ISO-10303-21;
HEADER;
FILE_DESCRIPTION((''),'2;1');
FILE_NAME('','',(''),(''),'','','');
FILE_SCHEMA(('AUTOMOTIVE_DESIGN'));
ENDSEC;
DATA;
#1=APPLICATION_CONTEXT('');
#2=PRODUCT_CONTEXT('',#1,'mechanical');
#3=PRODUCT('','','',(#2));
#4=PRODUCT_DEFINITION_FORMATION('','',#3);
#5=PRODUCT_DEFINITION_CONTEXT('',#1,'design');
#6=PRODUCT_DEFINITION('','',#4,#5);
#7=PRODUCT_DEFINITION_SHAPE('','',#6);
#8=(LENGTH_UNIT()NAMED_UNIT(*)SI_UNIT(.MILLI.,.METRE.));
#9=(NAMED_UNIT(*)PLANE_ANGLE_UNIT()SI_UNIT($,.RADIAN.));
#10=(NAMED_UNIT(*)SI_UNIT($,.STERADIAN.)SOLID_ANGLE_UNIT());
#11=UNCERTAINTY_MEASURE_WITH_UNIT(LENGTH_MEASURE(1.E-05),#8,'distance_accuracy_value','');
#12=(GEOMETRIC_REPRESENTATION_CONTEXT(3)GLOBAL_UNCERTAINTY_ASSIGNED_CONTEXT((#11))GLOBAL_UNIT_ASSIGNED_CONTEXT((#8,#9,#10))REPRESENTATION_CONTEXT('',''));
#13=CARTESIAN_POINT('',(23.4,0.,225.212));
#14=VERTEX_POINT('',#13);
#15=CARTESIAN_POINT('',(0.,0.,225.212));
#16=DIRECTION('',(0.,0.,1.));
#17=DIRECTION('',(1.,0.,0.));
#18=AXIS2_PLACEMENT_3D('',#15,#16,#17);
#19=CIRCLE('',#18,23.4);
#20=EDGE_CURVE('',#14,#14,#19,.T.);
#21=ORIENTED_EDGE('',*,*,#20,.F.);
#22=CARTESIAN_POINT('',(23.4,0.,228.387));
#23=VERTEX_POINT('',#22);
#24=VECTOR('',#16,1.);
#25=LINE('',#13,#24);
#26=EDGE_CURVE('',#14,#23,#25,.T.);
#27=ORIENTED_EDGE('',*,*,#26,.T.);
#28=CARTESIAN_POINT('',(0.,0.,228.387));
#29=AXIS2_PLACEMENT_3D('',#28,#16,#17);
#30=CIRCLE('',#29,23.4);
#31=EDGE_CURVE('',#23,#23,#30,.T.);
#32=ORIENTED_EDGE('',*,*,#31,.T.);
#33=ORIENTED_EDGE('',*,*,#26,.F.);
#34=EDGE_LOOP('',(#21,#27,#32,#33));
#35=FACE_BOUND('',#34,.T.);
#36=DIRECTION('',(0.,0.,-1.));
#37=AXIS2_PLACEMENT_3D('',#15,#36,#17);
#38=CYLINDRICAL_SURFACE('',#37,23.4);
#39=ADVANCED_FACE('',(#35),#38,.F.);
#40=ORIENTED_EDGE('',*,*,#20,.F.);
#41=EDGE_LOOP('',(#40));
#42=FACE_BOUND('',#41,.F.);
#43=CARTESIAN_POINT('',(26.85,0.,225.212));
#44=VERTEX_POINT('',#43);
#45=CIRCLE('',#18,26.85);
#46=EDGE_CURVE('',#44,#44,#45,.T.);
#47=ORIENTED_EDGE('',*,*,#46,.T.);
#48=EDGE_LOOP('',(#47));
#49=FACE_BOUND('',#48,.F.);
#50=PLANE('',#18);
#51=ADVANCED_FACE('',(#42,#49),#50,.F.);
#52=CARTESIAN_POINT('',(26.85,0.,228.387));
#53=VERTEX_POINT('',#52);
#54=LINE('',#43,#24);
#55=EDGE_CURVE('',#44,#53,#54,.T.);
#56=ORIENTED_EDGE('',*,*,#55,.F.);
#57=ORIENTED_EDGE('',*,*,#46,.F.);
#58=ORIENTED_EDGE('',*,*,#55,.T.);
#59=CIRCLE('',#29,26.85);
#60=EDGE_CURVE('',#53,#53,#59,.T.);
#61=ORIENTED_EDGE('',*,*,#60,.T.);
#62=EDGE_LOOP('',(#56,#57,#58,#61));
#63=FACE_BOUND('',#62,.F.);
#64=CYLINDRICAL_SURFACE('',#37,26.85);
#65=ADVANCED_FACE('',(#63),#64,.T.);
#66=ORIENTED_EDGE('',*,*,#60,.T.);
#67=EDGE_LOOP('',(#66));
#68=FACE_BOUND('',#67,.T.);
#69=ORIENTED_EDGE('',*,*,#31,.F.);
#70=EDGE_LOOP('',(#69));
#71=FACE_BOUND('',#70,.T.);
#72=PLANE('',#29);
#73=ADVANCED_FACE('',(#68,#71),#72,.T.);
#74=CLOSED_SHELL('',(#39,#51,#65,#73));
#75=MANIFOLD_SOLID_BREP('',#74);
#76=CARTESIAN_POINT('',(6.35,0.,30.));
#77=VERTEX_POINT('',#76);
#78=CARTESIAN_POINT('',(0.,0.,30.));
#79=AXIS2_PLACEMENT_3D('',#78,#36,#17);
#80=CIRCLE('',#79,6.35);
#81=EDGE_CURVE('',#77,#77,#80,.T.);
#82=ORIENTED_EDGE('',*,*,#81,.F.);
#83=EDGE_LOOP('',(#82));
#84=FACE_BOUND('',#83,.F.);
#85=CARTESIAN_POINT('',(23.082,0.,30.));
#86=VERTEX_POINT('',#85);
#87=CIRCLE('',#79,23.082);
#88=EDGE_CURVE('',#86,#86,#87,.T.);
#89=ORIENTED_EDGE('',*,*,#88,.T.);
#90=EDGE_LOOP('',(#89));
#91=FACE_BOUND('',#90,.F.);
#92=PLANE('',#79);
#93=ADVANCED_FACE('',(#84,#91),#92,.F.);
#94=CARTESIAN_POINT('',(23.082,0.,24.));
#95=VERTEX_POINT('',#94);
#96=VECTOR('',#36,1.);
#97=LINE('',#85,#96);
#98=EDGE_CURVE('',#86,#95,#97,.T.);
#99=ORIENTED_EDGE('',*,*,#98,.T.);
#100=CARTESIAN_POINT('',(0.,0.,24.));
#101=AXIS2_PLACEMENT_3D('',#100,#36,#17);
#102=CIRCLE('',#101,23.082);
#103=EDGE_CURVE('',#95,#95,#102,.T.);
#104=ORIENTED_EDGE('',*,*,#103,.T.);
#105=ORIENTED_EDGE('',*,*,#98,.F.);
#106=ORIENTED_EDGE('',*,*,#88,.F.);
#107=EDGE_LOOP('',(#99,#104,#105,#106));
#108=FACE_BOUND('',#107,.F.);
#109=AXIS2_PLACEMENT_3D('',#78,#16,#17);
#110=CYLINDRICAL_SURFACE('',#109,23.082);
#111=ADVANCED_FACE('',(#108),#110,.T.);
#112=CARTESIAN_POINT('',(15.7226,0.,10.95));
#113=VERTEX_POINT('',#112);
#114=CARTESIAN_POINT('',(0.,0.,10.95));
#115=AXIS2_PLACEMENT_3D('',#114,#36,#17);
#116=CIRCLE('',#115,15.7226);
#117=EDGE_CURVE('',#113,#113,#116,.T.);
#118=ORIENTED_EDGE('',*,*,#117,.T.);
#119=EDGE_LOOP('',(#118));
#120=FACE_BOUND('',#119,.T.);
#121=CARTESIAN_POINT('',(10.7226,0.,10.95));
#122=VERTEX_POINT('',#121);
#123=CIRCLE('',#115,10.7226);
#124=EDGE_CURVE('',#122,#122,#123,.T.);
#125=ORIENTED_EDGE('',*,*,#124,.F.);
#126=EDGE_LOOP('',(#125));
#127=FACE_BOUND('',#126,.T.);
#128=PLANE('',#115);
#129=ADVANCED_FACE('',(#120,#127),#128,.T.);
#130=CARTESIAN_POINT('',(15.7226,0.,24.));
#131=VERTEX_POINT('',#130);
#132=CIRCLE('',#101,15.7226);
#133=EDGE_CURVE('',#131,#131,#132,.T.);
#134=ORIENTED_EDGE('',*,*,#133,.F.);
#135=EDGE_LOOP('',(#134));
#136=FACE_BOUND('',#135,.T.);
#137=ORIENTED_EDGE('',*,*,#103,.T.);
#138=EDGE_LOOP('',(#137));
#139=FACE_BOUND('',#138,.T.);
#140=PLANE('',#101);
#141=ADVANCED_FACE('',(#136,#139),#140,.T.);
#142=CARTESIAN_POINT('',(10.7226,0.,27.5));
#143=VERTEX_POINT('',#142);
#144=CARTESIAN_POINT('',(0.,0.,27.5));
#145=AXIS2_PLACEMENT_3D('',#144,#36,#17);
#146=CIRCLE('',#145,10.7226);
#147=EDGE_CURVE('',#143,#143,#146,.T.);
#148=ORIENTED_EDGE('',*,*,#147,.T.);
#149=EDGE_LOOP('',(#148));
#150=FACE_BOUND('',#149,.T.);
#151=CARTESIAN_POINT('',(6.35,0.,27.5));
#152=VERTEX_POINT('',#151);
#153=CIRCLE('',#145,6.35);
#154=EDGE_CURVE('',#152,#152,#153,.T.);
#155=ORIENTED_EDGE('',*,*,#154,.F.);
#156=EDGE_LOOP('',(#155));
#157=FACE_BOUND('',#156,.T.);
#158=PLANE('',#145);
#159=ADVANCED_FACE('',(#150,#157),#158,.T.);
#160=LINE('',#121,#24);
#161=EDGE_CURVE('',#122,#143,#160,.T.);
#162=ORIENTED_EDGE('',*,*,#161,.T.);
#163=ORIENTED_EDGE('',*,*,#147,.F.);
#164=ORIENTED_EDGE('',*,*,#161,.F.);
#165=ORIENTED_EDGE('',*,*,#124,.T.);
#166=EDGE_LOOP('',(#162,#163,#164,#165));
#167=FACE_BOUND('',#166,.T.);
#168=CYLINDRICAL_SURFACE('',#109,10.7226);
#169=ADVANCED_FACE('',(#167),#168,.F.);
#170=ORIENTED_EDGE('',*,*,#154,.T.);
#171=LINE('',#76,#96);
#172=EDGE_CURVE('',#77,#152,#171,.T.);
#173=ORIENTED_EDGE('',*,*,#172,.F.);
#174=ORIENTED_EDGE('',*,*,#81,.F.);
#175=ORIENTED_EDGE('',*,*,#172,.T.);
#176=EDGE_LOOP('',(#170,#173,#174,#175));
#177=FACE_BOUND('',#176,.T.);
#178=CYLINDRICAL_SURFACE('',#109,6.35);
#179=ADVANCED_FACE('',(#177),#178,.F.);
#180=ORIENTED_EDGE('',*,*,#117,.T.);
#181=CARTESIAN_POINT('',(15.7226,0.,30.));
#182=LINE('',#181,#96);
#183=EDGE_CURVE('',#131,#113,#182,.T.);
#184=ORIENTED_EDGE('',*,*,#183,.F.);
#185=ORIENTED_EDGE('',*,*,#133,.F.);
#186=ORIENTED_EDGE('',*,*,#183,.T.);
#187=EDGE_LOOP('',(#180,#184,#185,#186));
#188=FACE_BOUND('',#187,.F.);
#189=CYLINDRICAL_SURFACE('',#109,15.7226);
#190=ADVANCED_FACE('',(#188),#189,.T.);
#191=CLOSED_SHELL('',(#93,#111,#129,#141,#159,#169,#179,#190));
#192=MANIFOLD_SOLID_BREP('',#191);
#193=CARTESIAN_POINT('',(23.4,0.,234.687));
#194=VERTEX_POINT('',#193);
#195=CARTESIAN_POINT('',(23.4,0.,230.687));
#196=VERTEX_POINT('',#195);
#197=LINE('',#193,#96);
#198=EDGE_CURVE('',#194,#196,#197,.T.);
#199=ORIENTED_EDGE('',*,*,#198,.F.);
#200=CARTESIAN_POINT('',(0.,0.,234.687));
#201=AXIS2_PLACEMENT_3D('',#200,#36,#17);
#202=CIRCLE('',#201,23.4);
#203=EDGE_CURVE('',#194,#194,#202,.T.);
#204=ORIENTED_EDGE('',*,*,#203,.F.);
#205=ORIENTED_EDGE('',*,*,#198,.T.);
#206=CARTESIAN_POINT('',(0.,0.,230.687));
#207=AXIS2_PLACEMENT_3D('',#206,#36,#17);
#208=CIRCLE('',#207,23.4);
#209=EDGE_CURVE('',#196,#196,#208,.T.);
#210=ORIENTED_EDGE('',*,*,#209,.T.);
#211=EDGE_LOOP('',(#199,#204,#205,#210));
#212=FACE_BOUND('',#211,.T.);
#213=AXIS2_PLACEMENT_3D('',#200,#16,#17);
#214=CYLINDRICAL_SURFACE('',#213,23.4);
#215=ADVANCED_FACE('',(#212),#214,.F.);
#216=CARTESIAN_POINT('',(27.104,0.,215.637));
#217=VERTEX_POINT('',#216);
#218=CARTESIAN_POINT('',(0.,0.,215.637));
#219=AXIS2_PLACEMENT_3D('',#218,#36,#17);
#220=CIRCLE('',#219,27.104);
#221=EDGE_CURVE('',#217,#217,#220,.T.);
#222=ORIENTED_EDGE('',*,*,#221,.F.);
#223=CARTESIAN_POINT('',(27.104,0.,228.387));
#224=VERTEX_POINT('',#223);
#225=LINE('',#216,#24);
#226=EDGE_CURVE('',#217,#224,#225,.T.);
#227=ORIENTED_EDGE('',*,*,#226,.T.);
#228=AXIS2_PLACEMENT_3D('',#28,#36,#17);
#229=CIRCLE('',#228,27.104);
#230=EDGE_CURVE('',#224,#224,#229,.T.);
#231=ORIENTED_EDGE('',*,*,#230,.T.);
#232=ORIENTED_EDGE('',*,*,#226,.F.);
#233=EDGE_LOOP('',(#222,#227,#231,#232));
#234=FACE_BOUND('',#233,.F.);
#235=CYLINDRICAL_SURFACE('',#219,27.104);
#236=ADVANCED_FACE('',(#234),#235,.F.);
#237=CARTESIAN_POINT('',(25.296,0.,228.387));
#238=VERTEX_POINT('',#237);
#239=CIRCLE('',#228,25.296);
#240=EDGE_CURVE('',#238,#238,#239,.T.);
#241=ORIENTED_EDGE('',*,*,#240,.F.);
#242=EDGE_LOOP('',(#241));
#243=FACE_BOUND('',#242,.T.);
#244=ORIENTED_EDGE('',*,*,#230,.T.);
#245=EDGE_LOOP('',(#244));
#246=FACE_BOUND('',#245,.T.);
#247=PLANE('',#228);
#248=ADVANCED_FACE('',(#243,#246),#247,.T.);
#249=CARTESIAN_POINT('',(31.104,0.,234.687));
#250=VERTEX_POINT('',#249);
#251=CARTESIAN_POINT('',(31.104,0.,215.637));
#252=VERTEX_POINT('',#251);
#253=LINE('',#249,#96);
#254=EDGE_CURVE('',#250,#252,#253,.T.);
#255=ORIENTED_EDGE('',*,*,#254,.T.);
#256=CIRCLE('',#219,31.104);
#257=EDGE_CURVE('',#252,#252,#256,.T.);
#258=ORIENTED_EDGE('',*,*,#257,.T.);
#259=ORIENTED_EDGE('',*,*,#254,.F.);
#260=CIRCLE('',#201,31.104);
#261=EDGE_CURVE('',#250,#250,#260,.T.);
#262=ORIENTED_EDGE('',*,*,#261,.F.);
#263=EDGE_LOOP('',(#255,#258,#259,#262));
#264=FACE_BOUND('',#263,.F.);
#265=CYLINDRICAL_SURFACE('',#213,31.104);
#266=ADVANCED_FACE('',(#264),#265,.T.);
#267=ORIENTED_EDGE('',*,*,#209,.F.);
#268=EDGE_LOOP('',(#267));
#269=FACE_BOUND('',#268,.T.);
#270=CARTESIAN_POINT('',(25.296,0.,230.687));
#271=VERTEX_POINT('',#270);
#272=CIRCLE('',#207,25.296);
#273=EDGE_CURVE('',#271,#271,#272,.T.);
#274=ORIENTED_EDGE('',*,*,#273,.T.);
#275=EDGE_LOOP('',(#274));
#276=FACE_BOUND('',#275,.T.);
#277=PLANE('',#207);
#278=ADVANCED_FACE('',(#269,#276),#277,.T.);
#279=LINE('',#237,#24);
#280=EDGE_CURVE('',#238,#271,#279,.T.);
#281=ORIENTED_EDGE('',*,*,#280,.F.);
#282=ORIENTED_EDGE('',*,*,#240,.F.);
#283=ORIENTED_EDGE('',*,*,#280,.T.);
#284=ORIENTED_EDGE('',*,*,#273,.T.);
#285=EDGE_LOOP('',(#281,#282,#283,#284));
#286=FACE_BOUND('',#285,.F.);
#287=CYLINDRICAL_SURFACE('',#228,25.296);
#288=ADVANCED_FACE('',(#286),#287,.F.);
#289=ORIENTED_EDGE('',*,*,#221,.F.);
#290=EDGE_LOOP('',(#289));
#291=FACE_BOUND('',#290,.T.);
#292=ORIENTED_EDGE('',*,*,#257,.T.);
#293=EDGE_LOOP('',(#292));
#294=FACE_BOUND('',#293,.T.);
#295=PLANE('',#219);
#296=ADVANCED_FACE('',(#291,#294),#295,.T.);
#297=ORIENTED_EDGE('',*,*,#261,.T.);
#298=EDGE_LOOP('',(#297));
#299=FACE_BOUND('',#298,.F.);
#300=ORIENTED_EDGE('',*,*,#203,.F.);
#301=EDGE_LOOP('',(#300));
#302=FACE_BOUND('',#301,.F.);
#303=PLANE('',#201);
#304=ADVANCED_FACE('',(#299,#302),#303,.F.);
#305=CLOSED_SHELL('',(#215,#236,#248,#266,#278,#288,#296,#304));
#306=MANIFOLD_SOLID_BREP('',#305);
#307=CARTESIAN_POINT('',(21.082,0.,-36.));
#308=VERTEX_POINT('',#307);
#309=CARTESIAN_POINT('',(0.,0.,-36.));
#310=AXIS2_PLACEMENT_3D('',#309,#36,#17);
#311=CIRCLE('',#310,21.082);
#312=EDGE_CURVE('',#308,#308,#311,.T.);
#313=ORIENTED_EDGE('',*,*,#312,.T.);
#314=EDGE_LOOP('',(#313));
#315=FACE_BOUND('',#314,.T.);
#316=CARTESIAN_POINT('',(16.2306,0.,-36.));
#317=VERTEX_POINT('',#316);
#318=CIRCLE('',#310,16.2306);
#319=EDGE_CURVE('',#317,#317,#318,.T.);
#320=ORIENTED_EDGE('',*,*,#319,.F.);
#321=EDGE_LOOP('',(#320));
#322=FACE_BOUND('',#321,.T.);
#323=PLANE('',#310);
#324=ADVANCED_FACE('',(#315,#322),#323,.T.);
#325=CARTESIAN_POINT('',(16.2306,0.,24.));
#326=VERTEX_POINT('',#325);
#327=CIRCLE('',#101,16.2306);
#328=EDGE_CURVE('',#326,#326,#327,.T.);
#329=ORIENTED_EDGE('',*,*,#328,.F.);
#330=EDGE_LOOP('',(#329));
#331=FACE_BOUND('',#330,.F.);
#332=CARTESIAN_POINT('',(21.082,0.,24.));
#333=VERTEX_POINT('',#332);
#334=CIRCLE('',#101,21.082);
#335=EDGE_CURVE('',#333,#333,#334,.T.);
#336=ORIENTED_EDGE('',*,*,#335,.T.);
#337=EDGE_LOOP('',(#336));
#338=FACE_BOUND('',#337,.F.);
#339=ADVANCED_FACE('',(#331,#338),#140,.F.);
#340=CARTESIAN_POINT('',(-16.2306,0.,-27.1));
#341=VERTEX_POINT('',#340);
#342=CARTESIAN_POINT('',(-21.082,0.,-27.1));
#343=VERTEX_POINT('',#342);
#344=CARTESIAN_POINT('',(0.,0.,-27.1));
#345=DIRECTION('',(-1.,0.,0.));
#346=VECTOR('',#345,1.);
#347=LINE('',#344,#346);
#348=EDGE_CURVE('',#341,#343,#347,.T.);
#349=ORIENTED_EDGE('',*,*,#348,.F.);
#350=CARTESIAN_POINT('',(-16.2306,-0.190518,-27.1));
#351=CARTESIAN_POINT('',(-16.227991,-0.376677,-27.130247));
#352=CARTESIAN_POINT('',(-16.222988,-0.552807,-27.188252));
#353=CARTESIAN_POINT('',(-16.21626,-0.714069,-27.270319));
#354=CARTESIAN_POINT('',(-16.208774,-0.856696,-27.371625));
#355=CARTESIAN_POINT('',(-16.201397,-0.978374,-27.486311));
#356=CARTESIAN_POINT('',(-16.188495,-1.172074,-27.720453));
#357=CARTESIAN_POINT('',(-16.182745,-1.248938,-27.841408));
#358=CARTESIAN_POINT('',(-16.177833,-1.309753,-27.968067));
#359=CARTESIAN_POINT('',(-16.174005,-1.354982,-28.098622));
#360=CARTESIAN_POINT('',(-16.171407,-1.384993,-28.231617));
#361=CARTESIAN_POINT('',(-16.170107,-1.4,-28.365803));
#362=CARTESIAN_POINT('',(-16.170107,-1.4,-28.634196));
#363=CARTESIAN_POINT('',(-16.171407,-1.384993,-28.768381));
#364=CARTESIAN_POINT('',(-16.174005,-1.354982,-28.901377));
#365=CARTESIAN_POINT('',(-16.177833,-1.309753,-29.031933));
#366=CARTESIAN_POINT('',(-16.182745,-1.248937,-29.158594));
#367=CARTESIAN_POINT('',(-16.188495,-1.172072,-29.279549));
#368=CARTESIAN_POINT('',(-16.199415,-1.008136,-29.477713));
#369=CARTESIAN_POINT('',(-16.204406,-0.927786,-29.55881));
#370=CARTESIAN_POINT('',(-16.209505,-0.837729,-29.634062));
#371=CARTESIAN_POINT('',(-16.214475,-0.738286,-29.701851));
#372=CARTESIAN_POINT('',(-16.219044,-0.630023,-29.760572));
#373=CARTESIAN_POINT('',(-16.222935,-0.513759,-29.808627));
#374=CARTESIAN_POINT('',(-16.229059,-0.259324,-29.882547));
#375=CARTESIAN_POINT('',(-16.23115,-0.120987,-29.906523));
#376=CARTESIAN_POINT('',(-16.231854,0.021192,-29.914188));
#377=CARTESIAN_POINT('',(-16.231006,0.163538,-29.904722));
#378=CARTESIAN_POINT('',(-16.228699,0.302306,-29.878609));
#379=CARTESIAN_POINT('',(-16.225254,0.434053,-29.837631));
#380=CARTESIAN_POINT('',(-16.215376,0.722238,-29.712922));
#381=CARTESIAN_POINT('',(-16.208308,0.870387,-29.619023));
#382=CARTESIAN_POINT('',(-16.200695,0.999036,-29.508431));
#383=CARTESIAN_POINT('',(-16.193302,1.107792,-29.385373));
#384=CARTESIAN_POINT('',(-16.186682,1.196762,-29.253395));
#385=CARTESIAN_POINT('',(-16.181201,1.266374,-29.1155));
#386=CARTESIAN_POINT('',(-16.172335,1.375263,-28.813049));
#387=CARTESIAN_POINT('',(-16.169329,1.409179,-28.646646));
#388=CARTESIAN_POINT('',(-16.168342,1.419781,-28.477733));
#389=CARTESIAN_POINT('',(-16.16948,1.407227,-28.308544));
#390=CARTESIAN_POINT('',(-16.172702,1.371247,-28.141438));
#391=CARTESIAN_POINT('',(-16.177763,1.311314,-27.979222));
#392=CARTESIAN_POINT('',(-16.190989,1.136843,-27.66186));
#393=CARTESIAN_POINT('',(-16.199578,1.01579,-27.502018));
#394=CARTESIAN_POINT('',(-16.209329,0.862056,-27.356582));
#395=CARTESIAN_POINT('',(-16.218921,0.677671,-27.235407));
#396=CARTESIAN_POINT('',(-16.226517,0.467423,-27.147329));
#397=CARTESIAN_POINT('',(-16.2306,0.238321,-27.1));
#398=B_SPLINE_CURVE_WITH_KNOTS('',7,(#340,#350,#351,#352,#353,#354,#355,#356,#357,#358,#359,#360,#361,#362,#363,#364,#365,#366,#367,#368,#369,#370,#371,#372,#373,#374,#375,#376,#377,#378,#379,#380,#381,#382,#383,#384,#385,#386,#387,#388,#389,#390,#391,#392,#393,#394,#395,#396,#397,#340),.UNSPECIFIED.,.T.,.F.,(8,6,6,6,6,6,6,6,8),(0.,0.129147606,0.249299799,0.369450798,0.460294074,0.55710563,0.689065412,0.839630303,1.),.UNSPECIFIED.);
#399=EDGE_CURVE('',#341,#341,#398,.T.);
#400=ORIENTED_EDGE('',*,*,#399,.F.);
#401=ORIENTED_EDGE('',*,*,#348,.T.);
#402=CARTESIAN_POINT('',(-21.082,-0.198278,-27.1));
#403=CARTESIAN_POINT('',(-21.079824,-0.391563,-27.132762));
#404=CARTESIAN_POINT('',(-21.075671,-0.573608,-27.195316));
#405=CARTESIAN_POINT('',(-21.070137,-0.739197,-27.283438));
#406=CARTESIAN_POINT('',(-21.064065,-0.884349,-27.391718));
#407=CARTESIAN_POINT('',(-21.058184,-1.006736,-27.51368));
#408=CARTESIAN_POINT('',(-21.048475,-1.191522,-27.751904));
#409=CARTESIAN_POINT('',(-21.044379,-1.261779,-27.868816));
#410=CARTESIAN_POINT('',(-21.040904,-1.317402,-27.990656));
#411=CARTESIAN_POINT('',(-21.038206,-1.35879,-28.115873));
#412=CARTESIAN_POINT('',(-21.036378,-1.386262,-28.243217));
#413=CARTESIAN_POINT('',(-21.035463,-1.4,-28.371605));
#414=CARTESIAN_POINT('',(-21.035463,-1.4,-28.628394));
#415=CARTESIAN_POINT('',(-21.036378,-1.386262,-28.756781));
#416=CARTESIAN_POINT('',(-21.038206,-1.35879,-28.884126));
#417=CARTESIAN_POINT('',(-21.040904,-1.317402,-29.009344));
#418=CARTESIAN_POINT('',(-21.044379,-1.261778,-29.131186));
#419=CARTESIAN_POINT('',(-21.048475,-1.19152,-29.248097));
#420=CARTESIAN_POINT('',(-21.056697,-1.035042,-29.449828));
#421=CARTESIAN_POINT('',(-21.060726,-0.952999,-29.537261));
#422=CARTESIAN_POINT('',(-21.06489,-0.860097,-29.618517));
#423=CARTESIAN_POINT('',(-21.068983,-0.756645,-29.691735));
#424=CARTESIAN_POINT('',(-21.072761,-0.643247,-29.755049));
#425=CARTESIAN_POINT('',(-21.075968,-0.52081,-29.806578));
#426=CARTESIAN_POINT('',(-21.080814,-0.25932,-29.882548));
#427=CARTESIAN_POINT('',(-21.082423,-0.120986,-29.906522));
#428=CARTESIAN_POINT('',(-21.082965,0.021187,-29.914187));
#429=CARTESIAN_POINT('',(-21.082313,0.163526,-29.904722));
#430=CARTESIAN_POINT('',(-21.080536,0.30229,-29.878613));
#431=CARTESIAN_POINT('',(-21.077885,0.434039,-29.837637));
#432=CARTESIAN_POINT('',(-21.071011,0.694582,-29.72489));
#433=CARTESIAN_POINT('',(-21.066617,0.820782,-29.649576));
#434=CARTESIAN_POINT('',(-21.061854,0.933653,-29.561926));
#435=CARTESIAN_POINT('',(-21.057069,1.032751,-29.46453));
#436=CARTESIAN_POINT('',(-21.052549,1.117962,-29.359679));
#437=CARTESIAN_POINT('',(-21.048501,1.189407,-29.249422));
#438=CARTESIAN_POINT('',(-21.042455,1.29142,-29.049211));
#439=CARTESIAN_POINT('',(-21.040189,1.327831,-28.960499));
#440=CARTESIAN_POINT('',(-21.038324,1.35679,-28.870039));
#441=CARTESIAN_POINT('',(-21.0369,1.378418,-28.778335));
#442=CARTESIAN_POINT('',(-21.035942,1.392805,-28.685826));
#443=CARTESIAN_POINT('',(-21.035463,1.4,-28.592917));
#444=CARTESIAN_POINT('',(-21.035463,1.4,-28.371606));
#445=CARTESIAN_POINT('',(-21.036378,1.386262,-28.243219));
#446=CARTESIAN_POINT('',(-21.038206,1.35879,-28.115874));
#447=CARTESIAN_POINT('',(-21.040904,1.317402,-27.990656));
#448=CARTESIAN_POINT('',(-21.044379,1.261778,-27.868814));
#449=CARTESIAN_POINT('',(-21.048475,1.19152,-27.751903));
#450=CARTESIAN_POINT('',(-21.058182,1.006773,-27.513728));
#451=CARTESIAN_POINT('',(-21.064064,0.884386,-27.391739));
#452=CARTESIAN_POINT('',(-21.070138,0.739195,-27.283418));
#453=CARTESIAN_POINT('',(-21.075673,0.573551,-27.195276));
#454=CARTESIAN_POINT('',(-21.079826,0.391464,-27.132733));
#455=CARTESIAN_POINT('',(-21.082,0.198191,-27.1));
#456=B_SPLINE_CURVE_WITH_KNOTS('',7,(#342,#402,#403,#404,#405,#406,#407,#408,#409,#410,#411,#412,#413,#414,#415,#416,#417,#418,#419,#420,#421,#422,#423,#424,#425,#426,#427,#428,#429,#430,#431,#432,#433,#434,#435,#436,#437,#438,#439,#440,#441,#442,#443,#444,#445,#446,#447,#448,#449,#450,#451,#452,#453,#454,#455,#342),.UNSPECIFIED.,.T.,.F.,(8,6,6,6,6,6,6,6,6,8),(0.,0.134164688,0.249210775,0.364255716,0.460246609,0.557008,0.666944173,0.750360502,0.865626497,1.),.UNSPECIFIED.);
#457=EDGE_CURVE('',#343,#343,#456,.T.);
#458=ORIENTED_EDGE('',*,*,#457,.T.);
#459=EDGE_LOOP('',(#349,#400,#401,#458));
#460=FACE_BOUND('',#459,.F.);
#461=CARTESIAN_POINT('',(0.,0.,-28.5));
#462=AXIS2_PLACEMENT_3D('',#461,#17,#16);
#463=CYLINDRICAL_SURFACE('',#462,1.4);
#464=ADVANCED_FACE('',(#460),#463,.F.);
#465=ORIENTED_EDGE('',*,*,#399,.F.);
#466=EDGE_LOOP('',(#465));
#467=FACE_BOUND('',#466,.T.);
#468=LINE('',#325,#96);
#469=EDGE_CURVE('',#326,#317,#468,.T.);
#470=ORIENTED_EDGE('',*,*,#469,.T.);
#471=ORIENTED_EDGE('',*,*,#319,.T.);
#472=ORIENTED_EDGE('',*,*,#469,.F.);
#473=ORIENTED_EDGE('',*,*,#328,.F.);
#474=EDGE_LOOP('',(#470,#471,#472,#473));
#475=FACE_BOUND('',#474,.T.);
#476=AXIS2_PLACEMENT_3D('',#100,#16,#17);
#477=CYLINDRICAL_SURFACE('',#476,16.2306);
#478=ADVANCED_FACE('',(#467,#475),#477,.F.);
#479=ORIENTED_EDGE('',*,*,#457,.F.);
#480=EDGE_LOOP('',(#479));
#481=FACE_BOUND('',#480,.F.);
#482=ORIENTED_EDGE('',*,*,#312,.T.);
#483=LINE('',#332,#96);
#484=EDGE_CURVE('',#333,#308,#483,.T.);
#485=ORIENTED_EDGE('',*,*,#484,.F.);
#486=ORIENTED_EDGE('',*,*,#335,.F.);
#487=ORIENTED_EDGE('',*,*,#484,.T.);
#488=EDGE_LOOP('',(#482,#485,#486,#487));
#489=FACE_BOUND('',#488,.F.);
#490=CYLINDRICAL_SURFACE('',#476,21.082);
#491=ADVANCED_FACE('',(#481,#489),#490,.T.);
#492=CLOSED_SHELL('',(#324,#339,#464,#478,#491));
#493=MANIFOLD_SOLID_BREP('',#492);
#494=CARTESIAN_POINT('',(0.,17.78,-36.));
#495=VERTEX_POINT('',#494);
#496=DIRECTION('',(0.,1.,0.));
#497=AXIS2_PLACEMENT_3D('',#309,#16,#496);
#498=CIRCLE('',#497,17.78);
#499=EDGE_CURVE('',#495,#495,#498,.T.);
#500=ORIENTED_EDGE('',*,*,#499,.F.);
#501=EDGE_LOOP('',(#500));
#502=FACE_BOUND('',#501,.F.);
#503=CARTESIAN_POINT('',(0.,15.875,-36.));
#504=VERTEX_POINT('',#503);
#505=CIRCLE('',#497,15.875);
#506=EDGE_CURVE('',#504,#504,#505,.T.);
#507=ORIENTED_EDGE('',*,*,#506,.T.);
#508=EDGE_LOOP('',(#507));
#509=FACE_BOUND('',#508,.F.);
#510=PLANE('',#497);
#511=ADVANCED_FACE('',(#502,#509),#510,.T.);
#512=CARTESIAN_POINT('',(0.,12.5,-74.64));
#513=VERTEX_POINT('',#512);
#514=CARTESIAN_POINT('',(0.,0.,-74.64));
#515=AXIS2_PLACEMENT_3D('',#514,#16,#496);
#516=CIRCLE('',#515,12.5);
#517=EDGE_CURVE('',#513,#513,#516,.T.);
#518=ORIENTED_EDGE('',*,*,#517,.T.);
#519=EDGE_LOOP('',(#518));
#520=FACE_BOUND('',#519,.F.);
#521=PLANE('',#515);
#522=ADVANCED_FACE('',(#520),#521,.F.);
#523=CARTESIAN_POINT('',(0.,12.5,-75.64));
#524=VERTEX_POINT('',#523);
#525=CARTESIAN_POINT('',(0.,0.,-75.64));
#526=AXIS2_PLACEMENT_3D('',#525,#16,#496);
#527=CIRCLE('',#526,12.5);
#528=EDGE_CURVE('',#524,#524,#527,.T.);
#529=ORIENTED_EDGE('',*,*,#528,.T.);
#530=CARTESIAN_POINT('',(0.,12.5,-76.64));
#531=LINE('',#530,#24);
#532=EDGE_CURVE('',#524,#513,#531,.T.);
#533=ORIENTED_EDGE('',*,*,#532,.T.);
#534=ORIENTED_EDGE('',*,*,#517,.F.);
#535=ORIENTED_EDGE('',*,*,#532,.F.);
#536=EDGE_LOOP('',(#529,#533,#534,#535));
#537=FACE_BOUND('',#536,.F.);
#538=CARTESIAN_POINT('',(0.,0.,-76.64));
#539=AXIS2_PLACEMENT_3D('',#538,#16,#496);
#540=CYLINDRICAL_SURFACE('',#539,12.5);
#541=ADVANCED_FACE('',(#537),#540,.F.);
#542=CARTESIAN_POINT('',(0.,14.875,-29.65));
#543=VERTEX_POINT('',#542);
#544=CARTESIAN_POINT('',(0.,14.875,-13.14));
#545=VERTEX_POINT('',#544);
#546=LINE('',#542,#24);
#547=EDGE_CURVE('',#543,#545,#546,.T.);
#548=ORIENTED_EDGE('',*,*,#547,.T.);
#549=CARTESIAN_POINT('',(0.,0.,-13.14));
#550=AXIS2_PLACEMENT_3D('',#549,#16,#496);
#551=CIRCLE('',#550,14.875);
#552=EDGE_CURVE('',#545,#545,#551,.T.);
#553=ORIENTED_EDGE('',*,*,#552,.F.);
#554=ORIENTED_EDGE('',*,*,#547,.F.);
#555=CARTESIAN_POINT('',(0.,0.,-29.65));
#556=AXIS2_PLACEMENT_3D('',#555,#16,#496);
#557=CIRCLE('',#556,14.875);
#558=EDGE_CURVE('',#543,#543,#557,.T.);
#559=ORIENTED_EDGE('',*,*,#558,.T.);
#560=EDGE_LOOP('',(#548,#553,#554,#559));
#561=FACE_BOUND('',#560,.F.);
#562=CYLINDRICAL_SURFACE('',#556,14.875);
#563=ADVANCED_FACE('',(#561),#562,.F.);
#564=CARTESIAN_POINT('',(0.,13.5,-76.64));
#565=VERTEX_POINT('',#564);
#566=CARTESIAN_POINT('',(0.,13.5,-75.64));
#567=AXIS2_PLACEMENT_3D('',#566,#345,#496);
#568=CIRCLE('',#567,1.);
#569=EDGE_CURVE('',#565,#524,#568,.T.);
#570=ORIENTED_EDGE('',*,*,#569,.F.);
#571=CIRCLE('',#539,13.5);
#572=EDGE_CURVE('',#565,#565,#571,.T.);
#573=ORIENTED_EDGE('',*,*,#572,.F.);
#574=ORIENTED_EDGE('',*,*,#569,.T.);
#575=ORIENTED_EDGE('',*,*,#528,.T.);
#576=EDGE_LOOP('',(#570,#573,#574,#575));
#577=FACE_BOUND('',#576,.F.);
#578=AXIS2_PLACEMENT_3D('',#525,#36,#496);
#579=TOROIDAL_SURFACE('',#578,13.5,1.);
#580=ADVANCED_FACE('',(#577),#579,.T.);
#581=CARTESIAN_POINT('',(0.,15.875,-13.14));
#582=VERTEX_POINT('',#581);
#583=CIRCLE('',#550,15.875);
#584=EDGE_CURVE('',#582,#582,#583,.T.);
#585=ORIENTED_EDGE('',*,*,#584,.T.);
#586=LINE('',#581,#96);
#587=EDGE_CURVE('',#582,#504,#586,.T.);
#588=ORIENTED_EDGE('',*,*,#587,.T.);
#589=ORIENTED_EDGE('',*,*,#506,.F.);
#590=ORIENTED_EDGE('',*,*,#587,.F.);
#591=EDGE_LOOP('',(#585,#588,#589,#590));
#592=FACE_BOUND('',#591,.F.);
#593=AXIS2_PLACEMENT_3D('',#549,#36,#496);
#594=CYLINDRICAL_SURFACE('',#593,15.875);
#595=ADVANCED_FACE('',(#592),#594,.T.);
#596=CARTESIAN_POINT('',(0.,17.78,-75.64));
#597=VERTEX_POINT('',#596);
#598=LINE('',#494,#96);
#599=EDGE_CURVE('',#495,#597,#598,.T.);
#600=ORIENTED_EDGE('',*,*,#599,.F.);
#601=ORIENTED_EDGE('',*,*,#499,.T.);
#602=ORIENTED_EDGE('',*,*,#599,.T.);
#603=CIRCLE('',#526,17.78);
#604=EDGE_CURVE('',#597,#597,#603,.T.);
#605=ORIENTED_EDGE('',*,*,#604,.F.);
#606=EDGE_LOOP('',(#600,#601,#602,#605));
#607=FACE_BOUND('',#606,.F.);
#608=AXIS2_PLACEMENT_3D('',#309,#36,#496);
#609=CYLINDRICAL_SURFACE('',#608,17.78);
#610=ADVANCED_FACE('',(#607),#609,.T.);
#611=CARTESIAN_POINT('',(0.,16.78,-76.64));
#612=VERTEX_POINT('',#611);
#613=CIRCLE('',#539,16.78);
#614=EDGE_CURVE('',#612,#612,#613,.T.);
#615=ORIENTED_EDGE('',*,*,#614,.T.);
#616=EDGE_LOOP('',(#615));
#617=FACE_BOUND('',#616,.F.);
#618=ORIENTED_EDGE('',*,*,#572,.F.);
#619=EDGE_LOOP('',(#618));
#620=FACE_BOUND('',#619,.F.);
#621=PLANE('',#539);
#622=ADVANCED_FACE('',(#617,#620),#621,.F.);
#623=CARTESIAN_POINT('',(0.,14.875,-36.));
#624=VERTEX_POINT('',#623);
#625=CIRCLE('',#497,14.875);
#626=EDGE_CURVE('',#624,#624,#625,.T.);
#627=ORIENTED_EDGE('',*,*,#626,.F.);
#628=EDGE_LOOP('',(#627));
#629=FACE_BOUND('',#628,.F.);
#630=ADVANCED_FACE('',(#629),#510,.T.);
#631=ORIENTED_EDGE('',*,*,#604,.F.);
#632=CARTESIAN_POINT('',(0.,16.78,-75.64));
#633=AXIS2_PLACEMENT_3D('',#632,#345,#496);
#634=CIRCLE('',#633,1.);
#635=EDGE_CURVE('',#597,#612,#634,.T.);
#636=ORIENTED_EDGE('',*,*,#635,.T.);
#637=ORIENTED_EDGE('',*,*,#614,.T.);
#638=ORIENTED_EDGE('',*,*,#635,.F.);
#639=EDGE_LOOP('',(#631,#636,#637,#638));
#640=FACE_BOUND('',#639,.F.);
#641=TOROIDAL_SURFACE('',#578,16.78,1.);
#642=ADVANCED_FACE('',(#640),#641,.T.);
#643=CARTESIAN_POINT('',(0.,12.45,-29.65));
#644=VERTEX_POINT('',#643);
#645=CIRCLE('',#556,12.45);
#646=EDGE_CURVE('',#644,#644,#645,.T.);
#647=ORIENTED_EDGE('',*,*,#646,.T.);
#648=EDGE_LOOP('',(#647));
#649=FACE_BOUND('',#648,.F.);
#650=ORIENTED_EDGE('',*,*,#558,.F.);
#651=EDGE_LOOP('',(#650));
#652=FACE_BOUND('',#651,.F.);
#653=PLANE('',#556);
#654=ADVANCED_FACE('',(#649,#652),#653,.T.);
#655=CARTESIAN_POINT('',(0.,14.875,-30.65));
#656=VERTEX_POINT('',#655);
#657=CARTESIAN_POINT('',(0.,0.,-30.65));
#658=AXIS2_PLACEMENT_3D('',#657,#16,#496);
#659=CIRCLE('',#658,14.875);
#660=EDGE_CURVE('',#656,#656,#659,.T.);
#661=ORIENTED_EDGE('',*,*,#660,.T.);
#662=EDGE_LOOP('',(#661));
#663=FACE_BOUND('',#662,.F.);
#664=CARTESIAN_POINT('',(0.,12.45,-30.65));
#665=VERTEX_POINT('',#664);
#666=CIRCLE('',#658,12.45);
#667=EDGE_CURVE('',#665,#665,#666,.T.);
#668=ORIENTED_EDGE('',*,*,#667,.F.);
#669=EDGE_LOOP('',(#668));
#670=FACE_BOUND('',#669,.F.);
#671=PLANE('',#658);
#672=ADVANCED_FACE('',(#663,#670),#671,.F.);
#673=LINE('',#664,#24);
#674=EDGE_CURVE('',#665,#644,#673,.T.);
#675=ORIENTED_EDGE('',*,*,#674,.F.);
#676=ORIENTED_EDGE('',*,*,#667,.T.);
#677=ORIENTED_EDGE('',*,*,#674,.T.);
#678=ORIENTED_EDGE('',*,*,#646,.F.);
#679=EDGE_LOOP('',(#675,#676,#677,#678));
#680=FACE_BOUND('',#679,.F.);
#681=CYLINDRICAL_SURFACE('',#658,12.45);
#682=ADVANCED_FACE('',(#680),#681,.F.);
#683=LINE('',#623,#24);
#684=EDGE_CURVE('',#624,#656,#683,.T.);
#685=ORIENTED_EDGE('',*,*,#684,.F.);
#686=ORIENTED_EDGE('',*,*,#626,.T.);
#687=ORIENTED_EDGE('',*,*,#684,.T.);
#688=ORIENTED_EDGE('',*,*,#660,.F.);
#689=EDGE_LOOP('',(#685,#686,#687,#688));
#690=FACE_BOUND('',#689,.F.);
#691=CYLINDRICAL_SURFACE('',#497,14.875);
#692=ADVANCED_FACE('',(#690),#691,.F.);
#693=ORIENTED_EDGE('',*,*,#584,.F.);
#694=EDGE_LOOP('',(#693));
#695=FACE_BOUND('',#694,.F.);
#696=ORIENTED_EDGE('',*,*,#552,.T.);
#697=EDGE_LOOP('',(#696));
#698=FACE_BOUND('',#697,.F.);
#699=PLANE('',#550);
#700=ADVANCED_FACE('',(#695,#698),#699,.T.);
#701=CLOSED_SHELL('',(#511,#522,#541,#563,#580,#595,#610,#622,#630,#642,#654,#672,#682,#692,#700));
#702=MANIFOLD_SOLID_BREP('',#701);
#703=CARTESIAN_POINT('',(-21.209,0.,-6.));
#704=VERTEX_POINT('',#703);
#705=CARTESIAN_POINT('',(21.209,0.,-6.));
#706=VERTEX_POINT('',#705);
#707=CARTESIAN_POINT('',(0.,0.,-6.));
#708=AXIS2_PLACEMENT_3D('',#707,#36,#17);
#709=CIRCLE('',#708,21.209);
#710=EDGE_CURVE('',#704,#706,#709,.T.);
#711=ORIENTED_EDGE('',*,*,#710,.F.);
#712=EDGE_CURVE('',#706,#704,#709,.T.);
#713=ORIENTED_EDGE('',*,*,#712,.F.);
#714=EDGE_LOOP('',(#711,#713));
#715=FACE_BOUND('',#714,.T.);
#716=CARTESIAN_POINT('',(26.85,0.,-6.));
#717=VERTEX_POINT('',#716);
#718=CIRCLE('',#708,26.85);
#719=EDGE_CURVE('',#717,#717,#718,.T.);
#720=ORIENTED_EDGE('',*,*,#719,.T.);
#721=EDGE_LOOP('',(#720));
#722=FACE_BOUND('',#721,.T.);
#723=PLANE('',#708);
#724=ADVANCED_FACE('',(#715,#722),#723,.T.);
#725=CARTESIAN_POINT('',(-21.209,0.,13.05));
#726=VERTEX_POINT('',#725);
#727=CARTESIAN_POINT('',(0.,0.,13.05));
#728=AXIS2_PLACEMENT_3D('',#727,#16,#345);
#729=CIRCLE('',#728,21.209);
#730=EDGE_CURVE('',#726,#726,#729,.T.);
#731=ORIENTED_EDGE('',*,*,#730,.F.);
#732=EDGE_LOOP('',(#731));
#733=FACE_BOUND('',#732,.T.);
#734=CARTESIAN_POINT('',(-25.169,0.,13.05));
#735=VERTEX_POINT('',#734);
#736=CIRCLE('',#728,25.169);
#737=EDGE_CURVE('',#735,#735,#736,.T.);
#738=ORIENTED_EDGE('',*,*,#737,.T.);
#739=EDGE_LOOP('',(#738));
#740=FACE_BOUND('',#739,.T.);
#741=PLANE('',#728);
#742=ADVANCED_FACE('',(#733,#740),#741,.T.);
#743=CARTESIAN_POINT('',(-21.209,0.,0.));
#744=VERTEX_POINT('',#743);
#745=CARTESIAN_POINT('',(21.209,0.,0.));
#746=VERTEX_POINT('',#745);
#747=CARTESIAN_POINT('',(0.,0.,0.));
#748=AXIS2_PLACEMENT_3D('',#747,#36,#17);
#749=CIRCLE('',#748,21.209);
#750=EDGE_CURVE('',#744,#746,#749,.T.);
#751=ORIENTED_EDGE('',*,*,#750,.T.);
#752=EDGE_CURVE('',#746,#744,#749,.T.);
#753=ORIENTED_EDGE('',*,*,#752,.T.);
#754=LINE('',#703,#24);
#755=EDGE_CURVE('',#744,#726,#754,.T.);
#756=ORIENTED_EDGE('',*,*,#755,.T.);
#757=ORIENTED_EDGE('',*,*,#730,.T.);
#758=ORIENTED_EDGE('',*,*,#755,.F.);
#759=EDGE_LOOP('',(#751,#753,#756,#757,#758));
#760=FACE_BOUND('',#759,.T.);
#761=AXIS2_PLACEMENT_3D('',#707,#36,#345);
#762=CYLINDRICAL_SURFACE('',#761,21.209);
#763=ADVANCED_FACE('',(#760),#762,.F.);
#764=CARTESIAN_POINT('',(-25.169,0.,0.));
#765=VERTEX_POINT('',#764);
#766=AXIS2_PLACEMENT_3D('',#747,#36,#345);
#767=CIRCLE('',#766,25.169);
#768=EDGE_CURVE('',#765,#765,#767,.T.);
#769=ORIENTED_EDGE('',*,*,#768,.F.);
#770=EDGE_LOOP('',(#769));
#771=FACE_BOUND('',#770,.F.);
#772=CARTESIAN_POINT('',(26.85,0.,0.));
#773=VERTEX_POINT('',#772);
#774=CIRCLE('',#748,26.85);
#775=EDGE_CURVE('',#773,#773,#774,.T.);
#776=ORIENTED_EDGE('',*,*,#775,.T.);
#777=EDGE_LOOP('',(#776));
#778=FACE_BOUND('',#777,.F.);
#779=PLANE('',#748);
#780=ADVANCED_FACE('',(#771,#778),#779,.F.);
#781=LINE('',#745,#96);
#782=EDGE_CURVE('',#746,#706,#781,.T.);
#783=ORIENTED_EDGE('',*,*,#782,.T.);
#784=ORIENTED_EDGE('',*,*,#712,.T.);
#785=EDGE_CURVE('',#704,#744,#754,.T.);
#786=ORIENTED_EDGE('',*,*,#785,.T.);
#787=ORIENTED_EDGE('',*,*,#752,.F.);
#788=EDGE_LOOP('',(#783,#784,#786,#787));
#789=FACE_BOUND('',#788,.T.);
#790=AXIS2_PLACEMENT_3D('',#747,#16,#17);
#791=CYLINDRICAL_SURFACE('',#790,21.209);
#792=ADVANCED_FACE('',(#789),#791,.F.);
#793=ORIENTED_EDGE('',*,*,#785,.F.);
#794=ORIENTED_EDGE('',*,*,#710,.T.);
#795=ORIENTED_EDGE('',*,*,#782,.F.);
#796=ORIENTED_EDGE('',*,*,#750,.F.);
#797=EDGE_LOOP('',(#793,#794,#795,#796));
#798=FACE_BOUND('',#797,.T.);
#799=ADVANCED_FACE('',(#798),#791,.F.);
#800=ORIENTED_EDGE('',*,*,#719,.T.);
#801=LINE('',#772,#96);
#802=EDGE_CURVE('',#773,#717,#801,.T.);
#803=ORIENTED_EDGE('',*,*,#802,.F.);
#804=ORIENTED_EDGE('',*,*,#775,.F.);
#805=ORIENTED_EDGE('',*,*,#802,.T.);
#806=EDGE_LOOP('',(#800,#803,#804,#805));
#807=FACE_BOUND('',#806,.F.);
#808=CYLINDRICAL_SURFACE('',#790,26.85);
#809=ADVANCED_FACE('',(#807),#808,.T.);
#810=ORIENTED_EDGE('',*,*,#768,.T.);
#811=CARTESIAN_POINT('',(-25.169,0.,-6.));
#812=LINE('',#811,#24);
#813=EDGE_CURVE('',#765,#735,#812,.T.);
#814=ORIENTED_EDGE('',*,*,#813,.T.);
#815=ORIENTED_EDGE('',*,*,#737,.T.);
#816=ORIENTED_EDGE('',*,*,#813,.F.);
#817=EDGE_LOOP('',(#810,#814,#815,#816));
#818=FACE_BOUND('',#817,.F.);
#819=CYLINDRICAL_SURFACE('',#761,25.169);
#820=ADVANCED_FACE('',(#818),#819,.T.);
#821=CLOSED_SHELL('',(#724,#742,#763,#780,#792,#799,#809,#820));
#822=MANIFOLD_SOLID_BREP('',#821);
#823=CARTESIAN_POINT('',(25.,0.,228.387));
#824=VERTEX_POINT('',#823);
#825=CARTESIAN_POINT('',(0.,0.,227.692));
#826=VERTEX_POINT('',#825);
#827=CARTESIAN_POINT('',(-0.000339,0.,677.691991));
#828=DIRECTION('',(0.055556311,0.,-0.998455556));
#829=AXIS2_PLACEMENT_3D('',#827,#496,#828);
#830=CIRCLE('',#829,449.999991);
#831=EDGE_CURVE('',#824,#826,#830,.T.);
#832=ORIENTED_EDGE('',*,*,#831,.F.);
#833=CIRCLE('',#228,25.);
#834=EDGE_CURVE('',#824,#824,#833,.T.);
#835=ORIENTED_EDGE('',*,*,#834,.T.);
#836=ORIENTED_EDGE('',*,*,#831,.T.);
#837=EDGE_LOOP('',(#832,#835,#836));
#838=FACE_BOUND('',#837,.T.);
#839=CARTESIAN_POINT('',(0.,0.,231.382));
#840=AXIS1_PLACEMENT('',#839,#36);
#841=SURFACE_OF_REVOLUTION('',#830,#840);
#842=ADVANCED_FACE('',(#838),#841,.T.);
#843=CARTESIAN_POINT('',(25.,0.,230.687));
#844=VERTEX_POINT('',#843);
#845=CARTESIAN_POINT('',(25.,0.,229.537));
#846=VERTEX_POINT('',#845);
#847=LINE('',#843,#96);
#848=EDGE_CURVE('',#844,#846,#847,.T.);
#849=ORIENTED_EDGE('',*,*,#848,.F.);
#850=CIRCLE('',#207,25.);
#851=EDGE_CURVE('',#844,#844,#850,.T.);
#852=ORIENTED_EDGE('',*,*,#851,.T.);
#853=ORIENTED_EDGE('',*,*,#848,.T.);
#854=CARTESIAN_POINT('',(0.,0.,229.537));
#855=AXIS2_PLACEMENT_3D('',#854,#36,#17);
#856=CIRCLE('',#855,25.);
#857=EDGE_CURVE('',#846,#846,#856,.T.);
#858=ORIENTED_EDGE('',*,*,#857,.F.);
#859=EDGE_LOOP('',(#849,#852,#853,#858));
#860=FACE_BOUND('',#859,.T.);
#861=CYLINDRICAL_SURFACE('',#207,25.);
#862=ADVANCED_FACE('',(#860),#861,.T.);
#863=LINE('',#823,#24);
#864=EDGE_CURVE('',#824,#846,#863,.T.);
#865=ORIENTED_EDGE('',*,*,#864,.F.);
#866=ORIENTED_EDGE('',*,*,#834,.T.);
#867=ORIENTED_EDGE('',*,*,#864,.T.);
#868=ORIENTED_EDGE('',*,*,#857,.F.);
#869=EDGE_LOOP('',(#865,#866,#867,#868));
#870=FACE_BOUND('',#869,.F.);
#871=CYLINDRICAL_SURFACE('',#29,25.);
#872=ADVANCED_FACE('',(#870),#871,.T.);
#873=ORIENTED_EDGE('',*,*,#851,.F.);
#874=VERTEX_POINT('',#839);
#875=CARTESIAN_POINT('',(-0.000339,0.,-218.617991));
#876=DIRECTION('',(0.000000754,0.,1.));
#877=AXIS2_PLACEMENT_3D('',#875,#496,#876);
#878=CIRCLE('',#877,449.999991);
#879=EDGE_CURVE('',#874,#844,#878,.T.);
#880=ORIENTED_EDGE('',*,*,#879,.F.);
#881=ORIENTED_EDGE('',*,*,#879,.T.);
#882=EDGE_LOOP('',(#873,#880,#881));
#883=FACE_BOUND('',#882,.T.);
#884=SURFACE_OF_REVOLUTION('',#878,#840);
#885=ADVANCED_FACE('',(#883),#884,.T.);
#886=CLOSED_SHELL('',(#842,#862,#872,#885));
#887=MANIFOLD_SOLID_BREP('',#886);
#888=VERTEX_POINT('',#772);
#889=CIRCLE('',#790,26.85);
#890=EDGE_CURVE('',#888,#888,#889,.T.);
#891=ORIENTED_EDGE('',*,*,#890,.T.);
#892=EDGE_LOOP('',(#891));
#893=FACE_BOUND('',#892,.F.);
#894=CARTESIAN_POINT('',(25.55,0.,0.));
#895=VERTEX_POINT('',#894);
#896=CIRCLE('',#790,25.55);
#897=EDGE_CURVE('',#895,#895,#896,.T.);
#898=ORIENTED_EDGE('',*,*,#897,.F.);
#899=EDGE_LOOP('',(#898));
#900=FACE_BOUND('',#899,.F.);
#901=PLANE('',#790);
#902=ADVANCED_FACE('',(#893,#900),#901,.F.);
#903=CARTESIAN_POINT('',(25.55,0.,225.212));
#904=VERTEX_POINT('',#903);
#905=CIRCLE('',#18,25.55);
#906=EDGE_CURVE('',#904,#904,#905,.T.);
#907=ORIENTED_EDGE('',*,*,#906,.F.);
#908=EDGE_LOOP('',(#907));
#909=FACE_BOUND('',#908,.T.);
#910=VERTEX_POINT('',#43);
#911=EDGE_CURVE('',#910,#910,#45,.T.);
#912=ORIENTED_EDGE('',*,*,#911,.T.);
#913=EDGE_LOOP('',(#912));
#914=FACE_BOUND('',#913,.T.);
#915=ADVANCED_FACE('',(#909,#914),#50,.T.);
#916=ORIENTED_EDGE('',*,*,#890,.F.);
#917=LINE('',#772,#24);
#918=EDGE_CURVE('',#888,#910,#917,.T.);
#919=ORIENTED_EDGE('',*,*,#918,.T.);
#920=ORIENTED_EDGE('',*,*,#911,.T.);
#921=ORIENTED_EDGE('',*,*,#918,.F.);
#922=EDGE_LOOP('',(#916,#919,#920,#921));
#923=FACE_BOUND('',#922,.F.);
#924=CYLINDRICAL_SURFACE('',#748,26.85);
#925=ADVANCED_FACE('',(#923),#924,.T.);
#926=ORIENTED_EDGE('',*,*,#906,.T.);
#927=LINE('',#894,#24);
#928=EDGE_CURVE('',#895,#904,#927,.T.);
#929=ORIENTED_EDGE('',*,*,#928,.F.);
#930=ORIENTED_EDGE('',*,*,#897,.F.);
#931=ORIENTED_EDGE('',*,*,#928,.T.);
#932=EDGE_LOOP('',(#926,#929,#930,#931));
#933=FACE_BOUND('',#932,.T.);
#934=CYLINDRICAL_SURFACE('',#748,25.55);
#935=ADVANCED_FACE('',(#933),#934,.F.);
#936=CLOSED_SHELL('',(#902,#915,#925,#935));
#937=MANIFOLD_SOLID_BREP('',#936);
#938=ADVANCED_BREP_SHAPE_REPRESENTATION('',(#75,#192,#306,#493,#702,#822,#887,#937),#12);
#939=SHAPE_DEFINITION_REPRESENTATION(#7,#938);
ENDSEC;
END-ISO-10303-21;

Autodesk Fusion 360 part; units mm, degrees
sketch "Sketch1" plane through (0, 0, 0) normal (0, 0, 1) x (1, 0, 0) in component "Tube"
  circle A0 centre (0, 0) radius 26.85
  circle A1 centre (0, 0) radius 25.55
  dimension "d92" = 51.1
  dimension "d415" = 0
  dimension "d416" = 0
  dimension "d417" = 0
  dimension "d418" = 0
  dimension "d93" = 53.7
extrude "Extrude1" add sketch "Sketch1" along normal blind 225.212 makes body 1 in component "Tube"
sketch "Sketch1 (2)" plane through (0, 0, 0) normal (0, 1, 0) x (1, 0, 0) in component "Lens"
  arc A0 (0, -1.845) -> (25, -1.15) centre (0, 448.155) ccw
  line L0 (25, -1.15) -> (25, 0)
  line L1 (25, 0) -> (0, 0) construction
  line L2 (0, -1.845) -> (0, 0) construction
  arc A1 (25, 1.15) -> (0, 1.845) centre (0, -448.155) ccw
  line L3 (25, 1.15) -> (25, 0)
  line L4 (0, -1.845) -> (0, 1.845)
  dimension "d5" = 1.15
  dimension "d7" = 25
  dimension "d9" = 450
revolve "Revolve1" add sketch "Sketch1 (2)" angle 360 about axis through (0, 0, 1.845) along (0, 0, -1) separate body makes body 2 in component "Lens"
sketch "Sketch1 (3)" plane through (0, 0, 0) normal (0, 0, 1) x (1, 0, 0) in component "Front Lens Holder"
  circle A0 centre (0, 0) radius 31.104
  circle A1 centre (0, 0) radius 23.4
  dimension "d11" = 62.208
  dimension "d99" = 46.8
  dimension "d46" = 0
  dimension "d47" = 0
  dimension "d48" = 0
  dimension "d49" = 0
  dimension "d380" = 0
  dimension "d381" = 0
  dimension "d382" = 0
  dimension "d383" = 0
extrude "Extrude1'" add sketch "Sketch1 (3)" along normal blind 19.05 separate body makes body 3 in component "Front Lens Holder"
sketch "Sketch2" plane through (0, 0, 19.05) normal (0, 0, 1) x (1, 0, 0) in component "Front Lens Holder"
  circle A0 centre (0, 0) radius 23.4
  circle A1 centre (0, 0) radius 31.104
  circle A2 centre (0, 0) radius 27.104
  dimension "d15" = 54.208
extrude "Extrude2" cut sketch "Sketch2" against normal blind 12.75 contours A2 bodies 3 in component "Front Lens Holder"
sketch "Sketch3" plane through (0, 0, 6.3) normal (0, 0, 1) x (1, 0, 0) in component "Front Lens Holder"
  circle A0 centre (0, 0) radius 23.4
  circle A1 centre (0, 0) radius 27.104
  circle A2 centre (0, 0) radius 25.296
  dimension "d18" = 50.592
extrude "Extrude3" cut sketch "Sketch3" against normal blind 2.3 contours A2 bodies 3 in component "Front Lens Holder"
sketch "Sketch1 (4)" plane through (0, 0, 0) normal (0, 0, 1) x (1, 0, 0) in component "Front Lens Spacer"
  circle A0 centre (0, 0) radius 26.85
  circle A1 centre (0, 0) radius 23.4
  dimension "d27" = 53.7
  dimension "d28" = 46.8
  dimension "d50" = 0
  dimension "d51" = 0
  dimension "d52" = 0
  dimension "d53" = 0
  dimension "d384" = 0
  dimension "d385" = 0
  dimension "d386" = 0
  dimension "d387" = 0
extrude "Extrude1''" add sketch "Sketch1 (4)" along normal blind 3.175 separate body makes body 4 in component "Front Lens Spacer"
sketch "Sketch1 (5)" plane through (0, 0, 0) normal (0, 0, 1) x (1, 0, 0) in component "Rear Mount"
  circle A0 centre (0, 0) radius 26.85
  circle A1 centre (0, 0) radius 21.209
  dimension "d70" = 53.7
  dimension "d71" = 42.418
  dimension "d255" = 0
  dimension "d256" = 0
  dimension "d257" = 0
  dimension "d258" = 0
extrude "Extrude1'''" add sketch "Sketch1 (5)" along normal blind 6 separate body makes body 5 in component "Rear Mount"
sketch "Sketch3 (2)" plane through (0, 0, 0) normal (0, 0, -1) x (-1, 0, 0) in component "Rear Mount"
  circle A0 centre (0, 0) radius 21.209
  circle A1 centre (0, 0) radius 25.169
  circle A2 centre (0, 0) radius 21.209
  circle A3 centre (0, 0) radius 26.85
  dimension "d406" = 50.338
extrude "Extrude3'" add sketch "Sketch3 (2)" along normal blind 19.05 from surface at -6 contours A1 bodies 5 in component "Rear Mount"
sketch "Sketch1 (6)" plane through (0, 0, -13.05) normal (0, 0, -1) x (-1, 0, 0)
  circle A0 centre (0, 0) radius 25.169
  line L0 (-3, 24.9896) -> (-1.5, 25.05)
  line L1 (-1.5, 25.05) -> (1.5, 25.05)
  line L2 (1.5, 25.05) -> (3, 24.9896)
  line L3 (3, 24.9896) -> (-3, 24.9896)
  line L4 (0, 24.9896) -> (0, 0)
  line L5 (0, 24.9896) -> (0, 25.05) construction
  circle A1 centre (0, 0) radius 21.209
  dimension "d144" = 3
  dimension "d145" = 6
  dimension "d146" = 25.05
sketch "Sketch1 (7)" plane through (0, 0, 0) normal (0, 0, 1) x (1, 0, 0) in component "Light Stop"
  circle A0 centre (0, 0) radius 23.082
  circle A1 centre (0, 0) radius 6.35
  circle A2 centre (0, 0) radius 10.7226
  circle A3 centre (0, 0) radius 15.7226
  dimension "d331" = 46.164
  dimension "d332" = 12.7
  dimension "d334" = 31.4452
  dimension "d335" = 5
  dimension "d340" = 0
  dimension "d341" = 0
  dimension "d342" = 0
  dimension "d343" = 0
  dimension "d364" = 0
  dimension "d365" = 0
  dimension "d366" = 0
  dimension "d367" = 0
extrude "Extrude1''''" add sketch "Sketch1 (7)" along normal blind 19.05 separate body contours A3 makes body 6 in component "Light Stop"
extrude "Extrude2'" add sketch "Sketch1 (7)" along normal blind 6 bodies 6 in component "Light Stop"
sketch "Sketch1 (8)" plane through (0, 0, 0) normal (0, 0, 1) x (1, 0, 0) in component "Eyepiece Tube"
  circle A0 centre (0, 0) radius 21.082
  circle A1 centre (0, 0) radius 16.2306
  dimension "d396" = 32.4612
  dimension "d397" = 42.164
extrude "Extrude1'''''" add sketch "Sketch1 (8)" along normal blind 60 separate body makes body 7 in component "Eyepiece Tube"
sketch "Sketch2 (2)" plane through (0, 0, 0) normal (1, 0, 0) x (0, 0, -1) in component "Eyepiece Tube"
  circle A0 centre (-52.5, 0) radius 1.4
  line L0 (-52.5, 0) -> (0, 0) construction
  line L1 (-60, 21.082) -> (-60, -21.082)
  dimension "d401" = 7.5
  dimension "d402" = 2.8
extrude "Extrude2''" cut sketch "Sketch2 (2)" against normal through all bodies 7 in component "Eyepiece Tube"
extrude "Extrude3''" cut 1 faces at (9.2015, -0.8482, 6) along direction (0, 0, -1) up to surface (3.5 mm away) on bodies 6 bodies 6 in component "Light Stop"
sketch "Sketch2 (3)" plane through (0, 0, 0) normal (1, 0, 0) x (0, 0, -1) in component "Lens"
  line L0 (-1.15, 25) -> (-1.15, -25)
  line L1 (0, 0) -> (0, 25)
  line L2 (0, 25) -> (250, 0)
  line L3 (250, 0) -> (0, -25)
  line L4 (0, -25) -> (0, 0)
  line L5 (0, 0) -> (250, 0) construction
  line L6 (0, -23.4) -> (0, 23.4)
  dimension "d91" = 250
  dimension "d155" = 50
  dimension "d560" = 46.8
sketch "Sketch1 (9)" plane through (0, 0, 0) normal (1, 0, 0) x (0, 0, -1) in component "Eyepiece"
  line L0 (0, 12.45) -> (0, 14.875)
  line L1 (0, 14.875) -> (-16.51, 14.875)
  line L2 (-16.51, 14.875) -> (-16.51, 15.875)
  line L3 (-16.51, 15.875) -> (6.35, 15.875)
  line L4 (6.35, 15.875) -> (6.35, 17.78)
  line L5 (6.35, 17.78) -> (46.99, 17.78)
  line L6 (46.99, 17.78) -> (46.99, 12.5)
  line L7 (46.99, 12.5) -> (44.99, 12.5)
  line L8 (44.99, 12.5) -> (44.99, 0)
  line L9 (44.99, 0) -> (6.35, 0)
  line L10 (6.35, 0) -> (6.35, 14.875)
  line L11 (6.35, 14.875) -> (1, 14.875)
  line L12 (1, 14.875) -> (1, 12.45)
  line L13 (1, 12.45) -> (0, 12.45)
  dimension "d532" = 15.875
  dimension "d533" = 1
  dimension "d534" = 12.45
  dimension "d535" = 14.875
  dimension "d536" = 5.35
  dimension "d537" = 16.51
  dimension "d538" = 17.78
  dimension "d539" = 40.64
  dimension "d540" = 12.5
  dimension "d541" = 2
revolve "Revolve1'" add sketch "Sketch1 (9)" angle 360 about axis through (0, 0, 1.75) along (0, 0, 1) separate body makes body 8 in component "Eyepiece"
fillet "Fillet1" radius 1 2 edges at (-16.5768, 6.4295, -46.99) (-11.6541, 4.5202, -46.99) on bodies 8 in component "Eyepiece"
component "Tube" placed x (1, 0, 0) y (0, 1, 0) z (0, 0, 1) at (0, 0, 0)
component "Lens" placed x (1, 0, 0) y (0, 1, 0) z (0, 0, 1) at (0, 0, 229.537)
component "Front Lens Holder" placed x (1, 0, 0) y (0, -1, 0) z (0, 0, -1) at (0, 0, 234.687)
component "Front Lens Spacer" placed x (1, 0, 0) y (0, 1, 0) z (0, 0, 1) at (0, 0, 225.212)
component "Rear Mount" placed x (1, 0, 0) y (0, -1, 0) z (0, 0, -1) at (0, 0, 0)
component "Light Stop" placed x (1, 0, 0) y (0, -1, 0) z (0, 0, -1) at (0, 0, 30)
component "Eyepiece Tube" placed x (1, 0, 0) y (0, -1, 0) z (0, 0, -1) at (0, 0, 24)
component "Eyepiece" placed x (1, 0, 0) y (0, 1, 0) z (0, 0, 1) at (0, 0, -29.65)
equation "d92 = tubeID"
equation "d95 = tubeLength"
equation "d5 = lensEdgeThickness / 2"
equation "d7 = lensDiameter / 2"
equation "d11 = tubeOD + 2 * ( glueGap + holderExteriorWallThickness )"
equation "d99 = opticalClearance"
equation "d13 = holderStock_p75"
equation "d15 = tubeOD + 2 * glueGap"
equation "d16 = lensEdgeThickness + frontHolderFrontLipThickness - holderStock_p75"
equation "d18 = tubeID - 2 * glueGap"
equation "d19 = -lensEdgeThickness"
equation "d27 = tubeOD"
equation "d28 = opticalClearance"
equation "d29 = lensSpacerThickness"
equation "d70 = tubeOD"
equation "d71 = eyepieceHolderOD + eyepieceHolderSlideGap * 2"
equation "d72 = rearMountLip"
equation "d79 = holderStock_p75"
equation "d146 = ( 50.1 / 2 ) * 1 mm"
equation "d331 = eyepieceHolderOD + 4 mm"
equation "d332 = lightStopDiam"
equation "d334 = eyepieceHolderID - ( glueGap * 4 )"
equation "d335 = lightStopWallThickness"
equation "d336 = holderStock_p75"
equation "d338 = lightStopJointThickness"
equation "d396 = eyepieceHolderID"
equation "d397 = eyepieceHolderOD"
equation "d398 = eyepieceHolderLength"
equation "d406 = tubeID - 3 * glueGap"
equation "d527 = -lightStopWebbingThickness"
equation "d91 = focalLength"
equation "d155 = lensDiameter"
equation "d532 = 1.25 in / 2"
equation "d93 = tubeOD"
equation "lensDiameter = 50 mm"
equation "d560 = opticalClearance"
equation "focalLength = 250 mm"
equation "opticalClearance = 46.8 mm"
equation "tubeID = 51.1 mm"
equation "tubeOD = 53.7 mm"
equation "tubeLength = 225.212 mm"
equation "holderExteriorWallThickness = 4 mm"
equation "glueGap = 0.01 in"
equation "lensSpacerThickness = 0.125 in"
equation "eyepieceHolderOD = 1.66 in"
equation "holderStock_p75 = 0.75 in"
equation "rearMountLip = 6 mm"
equation "eyepieceHolderID = 1.278 in"
equation "holderStock_p5 = 0.5 in"
equation "lightStopDiam = 12.7 mm"
equation "lightStopWallThickness = 5 mm"
equation "lightStopWebbingThickness = 2.5 mm"
equation "lightStopJointThickness = 6 mm"
equation "eyepieceHolderLength = 60 mm"
equation "eyepieceHolderSlideGap = 0.005 in"
equation "frontHolderFrontLipThickness = 4 mm"
equation "lensEdgeThickness = 2.3 mm"
properties part number "Eyepiece"
